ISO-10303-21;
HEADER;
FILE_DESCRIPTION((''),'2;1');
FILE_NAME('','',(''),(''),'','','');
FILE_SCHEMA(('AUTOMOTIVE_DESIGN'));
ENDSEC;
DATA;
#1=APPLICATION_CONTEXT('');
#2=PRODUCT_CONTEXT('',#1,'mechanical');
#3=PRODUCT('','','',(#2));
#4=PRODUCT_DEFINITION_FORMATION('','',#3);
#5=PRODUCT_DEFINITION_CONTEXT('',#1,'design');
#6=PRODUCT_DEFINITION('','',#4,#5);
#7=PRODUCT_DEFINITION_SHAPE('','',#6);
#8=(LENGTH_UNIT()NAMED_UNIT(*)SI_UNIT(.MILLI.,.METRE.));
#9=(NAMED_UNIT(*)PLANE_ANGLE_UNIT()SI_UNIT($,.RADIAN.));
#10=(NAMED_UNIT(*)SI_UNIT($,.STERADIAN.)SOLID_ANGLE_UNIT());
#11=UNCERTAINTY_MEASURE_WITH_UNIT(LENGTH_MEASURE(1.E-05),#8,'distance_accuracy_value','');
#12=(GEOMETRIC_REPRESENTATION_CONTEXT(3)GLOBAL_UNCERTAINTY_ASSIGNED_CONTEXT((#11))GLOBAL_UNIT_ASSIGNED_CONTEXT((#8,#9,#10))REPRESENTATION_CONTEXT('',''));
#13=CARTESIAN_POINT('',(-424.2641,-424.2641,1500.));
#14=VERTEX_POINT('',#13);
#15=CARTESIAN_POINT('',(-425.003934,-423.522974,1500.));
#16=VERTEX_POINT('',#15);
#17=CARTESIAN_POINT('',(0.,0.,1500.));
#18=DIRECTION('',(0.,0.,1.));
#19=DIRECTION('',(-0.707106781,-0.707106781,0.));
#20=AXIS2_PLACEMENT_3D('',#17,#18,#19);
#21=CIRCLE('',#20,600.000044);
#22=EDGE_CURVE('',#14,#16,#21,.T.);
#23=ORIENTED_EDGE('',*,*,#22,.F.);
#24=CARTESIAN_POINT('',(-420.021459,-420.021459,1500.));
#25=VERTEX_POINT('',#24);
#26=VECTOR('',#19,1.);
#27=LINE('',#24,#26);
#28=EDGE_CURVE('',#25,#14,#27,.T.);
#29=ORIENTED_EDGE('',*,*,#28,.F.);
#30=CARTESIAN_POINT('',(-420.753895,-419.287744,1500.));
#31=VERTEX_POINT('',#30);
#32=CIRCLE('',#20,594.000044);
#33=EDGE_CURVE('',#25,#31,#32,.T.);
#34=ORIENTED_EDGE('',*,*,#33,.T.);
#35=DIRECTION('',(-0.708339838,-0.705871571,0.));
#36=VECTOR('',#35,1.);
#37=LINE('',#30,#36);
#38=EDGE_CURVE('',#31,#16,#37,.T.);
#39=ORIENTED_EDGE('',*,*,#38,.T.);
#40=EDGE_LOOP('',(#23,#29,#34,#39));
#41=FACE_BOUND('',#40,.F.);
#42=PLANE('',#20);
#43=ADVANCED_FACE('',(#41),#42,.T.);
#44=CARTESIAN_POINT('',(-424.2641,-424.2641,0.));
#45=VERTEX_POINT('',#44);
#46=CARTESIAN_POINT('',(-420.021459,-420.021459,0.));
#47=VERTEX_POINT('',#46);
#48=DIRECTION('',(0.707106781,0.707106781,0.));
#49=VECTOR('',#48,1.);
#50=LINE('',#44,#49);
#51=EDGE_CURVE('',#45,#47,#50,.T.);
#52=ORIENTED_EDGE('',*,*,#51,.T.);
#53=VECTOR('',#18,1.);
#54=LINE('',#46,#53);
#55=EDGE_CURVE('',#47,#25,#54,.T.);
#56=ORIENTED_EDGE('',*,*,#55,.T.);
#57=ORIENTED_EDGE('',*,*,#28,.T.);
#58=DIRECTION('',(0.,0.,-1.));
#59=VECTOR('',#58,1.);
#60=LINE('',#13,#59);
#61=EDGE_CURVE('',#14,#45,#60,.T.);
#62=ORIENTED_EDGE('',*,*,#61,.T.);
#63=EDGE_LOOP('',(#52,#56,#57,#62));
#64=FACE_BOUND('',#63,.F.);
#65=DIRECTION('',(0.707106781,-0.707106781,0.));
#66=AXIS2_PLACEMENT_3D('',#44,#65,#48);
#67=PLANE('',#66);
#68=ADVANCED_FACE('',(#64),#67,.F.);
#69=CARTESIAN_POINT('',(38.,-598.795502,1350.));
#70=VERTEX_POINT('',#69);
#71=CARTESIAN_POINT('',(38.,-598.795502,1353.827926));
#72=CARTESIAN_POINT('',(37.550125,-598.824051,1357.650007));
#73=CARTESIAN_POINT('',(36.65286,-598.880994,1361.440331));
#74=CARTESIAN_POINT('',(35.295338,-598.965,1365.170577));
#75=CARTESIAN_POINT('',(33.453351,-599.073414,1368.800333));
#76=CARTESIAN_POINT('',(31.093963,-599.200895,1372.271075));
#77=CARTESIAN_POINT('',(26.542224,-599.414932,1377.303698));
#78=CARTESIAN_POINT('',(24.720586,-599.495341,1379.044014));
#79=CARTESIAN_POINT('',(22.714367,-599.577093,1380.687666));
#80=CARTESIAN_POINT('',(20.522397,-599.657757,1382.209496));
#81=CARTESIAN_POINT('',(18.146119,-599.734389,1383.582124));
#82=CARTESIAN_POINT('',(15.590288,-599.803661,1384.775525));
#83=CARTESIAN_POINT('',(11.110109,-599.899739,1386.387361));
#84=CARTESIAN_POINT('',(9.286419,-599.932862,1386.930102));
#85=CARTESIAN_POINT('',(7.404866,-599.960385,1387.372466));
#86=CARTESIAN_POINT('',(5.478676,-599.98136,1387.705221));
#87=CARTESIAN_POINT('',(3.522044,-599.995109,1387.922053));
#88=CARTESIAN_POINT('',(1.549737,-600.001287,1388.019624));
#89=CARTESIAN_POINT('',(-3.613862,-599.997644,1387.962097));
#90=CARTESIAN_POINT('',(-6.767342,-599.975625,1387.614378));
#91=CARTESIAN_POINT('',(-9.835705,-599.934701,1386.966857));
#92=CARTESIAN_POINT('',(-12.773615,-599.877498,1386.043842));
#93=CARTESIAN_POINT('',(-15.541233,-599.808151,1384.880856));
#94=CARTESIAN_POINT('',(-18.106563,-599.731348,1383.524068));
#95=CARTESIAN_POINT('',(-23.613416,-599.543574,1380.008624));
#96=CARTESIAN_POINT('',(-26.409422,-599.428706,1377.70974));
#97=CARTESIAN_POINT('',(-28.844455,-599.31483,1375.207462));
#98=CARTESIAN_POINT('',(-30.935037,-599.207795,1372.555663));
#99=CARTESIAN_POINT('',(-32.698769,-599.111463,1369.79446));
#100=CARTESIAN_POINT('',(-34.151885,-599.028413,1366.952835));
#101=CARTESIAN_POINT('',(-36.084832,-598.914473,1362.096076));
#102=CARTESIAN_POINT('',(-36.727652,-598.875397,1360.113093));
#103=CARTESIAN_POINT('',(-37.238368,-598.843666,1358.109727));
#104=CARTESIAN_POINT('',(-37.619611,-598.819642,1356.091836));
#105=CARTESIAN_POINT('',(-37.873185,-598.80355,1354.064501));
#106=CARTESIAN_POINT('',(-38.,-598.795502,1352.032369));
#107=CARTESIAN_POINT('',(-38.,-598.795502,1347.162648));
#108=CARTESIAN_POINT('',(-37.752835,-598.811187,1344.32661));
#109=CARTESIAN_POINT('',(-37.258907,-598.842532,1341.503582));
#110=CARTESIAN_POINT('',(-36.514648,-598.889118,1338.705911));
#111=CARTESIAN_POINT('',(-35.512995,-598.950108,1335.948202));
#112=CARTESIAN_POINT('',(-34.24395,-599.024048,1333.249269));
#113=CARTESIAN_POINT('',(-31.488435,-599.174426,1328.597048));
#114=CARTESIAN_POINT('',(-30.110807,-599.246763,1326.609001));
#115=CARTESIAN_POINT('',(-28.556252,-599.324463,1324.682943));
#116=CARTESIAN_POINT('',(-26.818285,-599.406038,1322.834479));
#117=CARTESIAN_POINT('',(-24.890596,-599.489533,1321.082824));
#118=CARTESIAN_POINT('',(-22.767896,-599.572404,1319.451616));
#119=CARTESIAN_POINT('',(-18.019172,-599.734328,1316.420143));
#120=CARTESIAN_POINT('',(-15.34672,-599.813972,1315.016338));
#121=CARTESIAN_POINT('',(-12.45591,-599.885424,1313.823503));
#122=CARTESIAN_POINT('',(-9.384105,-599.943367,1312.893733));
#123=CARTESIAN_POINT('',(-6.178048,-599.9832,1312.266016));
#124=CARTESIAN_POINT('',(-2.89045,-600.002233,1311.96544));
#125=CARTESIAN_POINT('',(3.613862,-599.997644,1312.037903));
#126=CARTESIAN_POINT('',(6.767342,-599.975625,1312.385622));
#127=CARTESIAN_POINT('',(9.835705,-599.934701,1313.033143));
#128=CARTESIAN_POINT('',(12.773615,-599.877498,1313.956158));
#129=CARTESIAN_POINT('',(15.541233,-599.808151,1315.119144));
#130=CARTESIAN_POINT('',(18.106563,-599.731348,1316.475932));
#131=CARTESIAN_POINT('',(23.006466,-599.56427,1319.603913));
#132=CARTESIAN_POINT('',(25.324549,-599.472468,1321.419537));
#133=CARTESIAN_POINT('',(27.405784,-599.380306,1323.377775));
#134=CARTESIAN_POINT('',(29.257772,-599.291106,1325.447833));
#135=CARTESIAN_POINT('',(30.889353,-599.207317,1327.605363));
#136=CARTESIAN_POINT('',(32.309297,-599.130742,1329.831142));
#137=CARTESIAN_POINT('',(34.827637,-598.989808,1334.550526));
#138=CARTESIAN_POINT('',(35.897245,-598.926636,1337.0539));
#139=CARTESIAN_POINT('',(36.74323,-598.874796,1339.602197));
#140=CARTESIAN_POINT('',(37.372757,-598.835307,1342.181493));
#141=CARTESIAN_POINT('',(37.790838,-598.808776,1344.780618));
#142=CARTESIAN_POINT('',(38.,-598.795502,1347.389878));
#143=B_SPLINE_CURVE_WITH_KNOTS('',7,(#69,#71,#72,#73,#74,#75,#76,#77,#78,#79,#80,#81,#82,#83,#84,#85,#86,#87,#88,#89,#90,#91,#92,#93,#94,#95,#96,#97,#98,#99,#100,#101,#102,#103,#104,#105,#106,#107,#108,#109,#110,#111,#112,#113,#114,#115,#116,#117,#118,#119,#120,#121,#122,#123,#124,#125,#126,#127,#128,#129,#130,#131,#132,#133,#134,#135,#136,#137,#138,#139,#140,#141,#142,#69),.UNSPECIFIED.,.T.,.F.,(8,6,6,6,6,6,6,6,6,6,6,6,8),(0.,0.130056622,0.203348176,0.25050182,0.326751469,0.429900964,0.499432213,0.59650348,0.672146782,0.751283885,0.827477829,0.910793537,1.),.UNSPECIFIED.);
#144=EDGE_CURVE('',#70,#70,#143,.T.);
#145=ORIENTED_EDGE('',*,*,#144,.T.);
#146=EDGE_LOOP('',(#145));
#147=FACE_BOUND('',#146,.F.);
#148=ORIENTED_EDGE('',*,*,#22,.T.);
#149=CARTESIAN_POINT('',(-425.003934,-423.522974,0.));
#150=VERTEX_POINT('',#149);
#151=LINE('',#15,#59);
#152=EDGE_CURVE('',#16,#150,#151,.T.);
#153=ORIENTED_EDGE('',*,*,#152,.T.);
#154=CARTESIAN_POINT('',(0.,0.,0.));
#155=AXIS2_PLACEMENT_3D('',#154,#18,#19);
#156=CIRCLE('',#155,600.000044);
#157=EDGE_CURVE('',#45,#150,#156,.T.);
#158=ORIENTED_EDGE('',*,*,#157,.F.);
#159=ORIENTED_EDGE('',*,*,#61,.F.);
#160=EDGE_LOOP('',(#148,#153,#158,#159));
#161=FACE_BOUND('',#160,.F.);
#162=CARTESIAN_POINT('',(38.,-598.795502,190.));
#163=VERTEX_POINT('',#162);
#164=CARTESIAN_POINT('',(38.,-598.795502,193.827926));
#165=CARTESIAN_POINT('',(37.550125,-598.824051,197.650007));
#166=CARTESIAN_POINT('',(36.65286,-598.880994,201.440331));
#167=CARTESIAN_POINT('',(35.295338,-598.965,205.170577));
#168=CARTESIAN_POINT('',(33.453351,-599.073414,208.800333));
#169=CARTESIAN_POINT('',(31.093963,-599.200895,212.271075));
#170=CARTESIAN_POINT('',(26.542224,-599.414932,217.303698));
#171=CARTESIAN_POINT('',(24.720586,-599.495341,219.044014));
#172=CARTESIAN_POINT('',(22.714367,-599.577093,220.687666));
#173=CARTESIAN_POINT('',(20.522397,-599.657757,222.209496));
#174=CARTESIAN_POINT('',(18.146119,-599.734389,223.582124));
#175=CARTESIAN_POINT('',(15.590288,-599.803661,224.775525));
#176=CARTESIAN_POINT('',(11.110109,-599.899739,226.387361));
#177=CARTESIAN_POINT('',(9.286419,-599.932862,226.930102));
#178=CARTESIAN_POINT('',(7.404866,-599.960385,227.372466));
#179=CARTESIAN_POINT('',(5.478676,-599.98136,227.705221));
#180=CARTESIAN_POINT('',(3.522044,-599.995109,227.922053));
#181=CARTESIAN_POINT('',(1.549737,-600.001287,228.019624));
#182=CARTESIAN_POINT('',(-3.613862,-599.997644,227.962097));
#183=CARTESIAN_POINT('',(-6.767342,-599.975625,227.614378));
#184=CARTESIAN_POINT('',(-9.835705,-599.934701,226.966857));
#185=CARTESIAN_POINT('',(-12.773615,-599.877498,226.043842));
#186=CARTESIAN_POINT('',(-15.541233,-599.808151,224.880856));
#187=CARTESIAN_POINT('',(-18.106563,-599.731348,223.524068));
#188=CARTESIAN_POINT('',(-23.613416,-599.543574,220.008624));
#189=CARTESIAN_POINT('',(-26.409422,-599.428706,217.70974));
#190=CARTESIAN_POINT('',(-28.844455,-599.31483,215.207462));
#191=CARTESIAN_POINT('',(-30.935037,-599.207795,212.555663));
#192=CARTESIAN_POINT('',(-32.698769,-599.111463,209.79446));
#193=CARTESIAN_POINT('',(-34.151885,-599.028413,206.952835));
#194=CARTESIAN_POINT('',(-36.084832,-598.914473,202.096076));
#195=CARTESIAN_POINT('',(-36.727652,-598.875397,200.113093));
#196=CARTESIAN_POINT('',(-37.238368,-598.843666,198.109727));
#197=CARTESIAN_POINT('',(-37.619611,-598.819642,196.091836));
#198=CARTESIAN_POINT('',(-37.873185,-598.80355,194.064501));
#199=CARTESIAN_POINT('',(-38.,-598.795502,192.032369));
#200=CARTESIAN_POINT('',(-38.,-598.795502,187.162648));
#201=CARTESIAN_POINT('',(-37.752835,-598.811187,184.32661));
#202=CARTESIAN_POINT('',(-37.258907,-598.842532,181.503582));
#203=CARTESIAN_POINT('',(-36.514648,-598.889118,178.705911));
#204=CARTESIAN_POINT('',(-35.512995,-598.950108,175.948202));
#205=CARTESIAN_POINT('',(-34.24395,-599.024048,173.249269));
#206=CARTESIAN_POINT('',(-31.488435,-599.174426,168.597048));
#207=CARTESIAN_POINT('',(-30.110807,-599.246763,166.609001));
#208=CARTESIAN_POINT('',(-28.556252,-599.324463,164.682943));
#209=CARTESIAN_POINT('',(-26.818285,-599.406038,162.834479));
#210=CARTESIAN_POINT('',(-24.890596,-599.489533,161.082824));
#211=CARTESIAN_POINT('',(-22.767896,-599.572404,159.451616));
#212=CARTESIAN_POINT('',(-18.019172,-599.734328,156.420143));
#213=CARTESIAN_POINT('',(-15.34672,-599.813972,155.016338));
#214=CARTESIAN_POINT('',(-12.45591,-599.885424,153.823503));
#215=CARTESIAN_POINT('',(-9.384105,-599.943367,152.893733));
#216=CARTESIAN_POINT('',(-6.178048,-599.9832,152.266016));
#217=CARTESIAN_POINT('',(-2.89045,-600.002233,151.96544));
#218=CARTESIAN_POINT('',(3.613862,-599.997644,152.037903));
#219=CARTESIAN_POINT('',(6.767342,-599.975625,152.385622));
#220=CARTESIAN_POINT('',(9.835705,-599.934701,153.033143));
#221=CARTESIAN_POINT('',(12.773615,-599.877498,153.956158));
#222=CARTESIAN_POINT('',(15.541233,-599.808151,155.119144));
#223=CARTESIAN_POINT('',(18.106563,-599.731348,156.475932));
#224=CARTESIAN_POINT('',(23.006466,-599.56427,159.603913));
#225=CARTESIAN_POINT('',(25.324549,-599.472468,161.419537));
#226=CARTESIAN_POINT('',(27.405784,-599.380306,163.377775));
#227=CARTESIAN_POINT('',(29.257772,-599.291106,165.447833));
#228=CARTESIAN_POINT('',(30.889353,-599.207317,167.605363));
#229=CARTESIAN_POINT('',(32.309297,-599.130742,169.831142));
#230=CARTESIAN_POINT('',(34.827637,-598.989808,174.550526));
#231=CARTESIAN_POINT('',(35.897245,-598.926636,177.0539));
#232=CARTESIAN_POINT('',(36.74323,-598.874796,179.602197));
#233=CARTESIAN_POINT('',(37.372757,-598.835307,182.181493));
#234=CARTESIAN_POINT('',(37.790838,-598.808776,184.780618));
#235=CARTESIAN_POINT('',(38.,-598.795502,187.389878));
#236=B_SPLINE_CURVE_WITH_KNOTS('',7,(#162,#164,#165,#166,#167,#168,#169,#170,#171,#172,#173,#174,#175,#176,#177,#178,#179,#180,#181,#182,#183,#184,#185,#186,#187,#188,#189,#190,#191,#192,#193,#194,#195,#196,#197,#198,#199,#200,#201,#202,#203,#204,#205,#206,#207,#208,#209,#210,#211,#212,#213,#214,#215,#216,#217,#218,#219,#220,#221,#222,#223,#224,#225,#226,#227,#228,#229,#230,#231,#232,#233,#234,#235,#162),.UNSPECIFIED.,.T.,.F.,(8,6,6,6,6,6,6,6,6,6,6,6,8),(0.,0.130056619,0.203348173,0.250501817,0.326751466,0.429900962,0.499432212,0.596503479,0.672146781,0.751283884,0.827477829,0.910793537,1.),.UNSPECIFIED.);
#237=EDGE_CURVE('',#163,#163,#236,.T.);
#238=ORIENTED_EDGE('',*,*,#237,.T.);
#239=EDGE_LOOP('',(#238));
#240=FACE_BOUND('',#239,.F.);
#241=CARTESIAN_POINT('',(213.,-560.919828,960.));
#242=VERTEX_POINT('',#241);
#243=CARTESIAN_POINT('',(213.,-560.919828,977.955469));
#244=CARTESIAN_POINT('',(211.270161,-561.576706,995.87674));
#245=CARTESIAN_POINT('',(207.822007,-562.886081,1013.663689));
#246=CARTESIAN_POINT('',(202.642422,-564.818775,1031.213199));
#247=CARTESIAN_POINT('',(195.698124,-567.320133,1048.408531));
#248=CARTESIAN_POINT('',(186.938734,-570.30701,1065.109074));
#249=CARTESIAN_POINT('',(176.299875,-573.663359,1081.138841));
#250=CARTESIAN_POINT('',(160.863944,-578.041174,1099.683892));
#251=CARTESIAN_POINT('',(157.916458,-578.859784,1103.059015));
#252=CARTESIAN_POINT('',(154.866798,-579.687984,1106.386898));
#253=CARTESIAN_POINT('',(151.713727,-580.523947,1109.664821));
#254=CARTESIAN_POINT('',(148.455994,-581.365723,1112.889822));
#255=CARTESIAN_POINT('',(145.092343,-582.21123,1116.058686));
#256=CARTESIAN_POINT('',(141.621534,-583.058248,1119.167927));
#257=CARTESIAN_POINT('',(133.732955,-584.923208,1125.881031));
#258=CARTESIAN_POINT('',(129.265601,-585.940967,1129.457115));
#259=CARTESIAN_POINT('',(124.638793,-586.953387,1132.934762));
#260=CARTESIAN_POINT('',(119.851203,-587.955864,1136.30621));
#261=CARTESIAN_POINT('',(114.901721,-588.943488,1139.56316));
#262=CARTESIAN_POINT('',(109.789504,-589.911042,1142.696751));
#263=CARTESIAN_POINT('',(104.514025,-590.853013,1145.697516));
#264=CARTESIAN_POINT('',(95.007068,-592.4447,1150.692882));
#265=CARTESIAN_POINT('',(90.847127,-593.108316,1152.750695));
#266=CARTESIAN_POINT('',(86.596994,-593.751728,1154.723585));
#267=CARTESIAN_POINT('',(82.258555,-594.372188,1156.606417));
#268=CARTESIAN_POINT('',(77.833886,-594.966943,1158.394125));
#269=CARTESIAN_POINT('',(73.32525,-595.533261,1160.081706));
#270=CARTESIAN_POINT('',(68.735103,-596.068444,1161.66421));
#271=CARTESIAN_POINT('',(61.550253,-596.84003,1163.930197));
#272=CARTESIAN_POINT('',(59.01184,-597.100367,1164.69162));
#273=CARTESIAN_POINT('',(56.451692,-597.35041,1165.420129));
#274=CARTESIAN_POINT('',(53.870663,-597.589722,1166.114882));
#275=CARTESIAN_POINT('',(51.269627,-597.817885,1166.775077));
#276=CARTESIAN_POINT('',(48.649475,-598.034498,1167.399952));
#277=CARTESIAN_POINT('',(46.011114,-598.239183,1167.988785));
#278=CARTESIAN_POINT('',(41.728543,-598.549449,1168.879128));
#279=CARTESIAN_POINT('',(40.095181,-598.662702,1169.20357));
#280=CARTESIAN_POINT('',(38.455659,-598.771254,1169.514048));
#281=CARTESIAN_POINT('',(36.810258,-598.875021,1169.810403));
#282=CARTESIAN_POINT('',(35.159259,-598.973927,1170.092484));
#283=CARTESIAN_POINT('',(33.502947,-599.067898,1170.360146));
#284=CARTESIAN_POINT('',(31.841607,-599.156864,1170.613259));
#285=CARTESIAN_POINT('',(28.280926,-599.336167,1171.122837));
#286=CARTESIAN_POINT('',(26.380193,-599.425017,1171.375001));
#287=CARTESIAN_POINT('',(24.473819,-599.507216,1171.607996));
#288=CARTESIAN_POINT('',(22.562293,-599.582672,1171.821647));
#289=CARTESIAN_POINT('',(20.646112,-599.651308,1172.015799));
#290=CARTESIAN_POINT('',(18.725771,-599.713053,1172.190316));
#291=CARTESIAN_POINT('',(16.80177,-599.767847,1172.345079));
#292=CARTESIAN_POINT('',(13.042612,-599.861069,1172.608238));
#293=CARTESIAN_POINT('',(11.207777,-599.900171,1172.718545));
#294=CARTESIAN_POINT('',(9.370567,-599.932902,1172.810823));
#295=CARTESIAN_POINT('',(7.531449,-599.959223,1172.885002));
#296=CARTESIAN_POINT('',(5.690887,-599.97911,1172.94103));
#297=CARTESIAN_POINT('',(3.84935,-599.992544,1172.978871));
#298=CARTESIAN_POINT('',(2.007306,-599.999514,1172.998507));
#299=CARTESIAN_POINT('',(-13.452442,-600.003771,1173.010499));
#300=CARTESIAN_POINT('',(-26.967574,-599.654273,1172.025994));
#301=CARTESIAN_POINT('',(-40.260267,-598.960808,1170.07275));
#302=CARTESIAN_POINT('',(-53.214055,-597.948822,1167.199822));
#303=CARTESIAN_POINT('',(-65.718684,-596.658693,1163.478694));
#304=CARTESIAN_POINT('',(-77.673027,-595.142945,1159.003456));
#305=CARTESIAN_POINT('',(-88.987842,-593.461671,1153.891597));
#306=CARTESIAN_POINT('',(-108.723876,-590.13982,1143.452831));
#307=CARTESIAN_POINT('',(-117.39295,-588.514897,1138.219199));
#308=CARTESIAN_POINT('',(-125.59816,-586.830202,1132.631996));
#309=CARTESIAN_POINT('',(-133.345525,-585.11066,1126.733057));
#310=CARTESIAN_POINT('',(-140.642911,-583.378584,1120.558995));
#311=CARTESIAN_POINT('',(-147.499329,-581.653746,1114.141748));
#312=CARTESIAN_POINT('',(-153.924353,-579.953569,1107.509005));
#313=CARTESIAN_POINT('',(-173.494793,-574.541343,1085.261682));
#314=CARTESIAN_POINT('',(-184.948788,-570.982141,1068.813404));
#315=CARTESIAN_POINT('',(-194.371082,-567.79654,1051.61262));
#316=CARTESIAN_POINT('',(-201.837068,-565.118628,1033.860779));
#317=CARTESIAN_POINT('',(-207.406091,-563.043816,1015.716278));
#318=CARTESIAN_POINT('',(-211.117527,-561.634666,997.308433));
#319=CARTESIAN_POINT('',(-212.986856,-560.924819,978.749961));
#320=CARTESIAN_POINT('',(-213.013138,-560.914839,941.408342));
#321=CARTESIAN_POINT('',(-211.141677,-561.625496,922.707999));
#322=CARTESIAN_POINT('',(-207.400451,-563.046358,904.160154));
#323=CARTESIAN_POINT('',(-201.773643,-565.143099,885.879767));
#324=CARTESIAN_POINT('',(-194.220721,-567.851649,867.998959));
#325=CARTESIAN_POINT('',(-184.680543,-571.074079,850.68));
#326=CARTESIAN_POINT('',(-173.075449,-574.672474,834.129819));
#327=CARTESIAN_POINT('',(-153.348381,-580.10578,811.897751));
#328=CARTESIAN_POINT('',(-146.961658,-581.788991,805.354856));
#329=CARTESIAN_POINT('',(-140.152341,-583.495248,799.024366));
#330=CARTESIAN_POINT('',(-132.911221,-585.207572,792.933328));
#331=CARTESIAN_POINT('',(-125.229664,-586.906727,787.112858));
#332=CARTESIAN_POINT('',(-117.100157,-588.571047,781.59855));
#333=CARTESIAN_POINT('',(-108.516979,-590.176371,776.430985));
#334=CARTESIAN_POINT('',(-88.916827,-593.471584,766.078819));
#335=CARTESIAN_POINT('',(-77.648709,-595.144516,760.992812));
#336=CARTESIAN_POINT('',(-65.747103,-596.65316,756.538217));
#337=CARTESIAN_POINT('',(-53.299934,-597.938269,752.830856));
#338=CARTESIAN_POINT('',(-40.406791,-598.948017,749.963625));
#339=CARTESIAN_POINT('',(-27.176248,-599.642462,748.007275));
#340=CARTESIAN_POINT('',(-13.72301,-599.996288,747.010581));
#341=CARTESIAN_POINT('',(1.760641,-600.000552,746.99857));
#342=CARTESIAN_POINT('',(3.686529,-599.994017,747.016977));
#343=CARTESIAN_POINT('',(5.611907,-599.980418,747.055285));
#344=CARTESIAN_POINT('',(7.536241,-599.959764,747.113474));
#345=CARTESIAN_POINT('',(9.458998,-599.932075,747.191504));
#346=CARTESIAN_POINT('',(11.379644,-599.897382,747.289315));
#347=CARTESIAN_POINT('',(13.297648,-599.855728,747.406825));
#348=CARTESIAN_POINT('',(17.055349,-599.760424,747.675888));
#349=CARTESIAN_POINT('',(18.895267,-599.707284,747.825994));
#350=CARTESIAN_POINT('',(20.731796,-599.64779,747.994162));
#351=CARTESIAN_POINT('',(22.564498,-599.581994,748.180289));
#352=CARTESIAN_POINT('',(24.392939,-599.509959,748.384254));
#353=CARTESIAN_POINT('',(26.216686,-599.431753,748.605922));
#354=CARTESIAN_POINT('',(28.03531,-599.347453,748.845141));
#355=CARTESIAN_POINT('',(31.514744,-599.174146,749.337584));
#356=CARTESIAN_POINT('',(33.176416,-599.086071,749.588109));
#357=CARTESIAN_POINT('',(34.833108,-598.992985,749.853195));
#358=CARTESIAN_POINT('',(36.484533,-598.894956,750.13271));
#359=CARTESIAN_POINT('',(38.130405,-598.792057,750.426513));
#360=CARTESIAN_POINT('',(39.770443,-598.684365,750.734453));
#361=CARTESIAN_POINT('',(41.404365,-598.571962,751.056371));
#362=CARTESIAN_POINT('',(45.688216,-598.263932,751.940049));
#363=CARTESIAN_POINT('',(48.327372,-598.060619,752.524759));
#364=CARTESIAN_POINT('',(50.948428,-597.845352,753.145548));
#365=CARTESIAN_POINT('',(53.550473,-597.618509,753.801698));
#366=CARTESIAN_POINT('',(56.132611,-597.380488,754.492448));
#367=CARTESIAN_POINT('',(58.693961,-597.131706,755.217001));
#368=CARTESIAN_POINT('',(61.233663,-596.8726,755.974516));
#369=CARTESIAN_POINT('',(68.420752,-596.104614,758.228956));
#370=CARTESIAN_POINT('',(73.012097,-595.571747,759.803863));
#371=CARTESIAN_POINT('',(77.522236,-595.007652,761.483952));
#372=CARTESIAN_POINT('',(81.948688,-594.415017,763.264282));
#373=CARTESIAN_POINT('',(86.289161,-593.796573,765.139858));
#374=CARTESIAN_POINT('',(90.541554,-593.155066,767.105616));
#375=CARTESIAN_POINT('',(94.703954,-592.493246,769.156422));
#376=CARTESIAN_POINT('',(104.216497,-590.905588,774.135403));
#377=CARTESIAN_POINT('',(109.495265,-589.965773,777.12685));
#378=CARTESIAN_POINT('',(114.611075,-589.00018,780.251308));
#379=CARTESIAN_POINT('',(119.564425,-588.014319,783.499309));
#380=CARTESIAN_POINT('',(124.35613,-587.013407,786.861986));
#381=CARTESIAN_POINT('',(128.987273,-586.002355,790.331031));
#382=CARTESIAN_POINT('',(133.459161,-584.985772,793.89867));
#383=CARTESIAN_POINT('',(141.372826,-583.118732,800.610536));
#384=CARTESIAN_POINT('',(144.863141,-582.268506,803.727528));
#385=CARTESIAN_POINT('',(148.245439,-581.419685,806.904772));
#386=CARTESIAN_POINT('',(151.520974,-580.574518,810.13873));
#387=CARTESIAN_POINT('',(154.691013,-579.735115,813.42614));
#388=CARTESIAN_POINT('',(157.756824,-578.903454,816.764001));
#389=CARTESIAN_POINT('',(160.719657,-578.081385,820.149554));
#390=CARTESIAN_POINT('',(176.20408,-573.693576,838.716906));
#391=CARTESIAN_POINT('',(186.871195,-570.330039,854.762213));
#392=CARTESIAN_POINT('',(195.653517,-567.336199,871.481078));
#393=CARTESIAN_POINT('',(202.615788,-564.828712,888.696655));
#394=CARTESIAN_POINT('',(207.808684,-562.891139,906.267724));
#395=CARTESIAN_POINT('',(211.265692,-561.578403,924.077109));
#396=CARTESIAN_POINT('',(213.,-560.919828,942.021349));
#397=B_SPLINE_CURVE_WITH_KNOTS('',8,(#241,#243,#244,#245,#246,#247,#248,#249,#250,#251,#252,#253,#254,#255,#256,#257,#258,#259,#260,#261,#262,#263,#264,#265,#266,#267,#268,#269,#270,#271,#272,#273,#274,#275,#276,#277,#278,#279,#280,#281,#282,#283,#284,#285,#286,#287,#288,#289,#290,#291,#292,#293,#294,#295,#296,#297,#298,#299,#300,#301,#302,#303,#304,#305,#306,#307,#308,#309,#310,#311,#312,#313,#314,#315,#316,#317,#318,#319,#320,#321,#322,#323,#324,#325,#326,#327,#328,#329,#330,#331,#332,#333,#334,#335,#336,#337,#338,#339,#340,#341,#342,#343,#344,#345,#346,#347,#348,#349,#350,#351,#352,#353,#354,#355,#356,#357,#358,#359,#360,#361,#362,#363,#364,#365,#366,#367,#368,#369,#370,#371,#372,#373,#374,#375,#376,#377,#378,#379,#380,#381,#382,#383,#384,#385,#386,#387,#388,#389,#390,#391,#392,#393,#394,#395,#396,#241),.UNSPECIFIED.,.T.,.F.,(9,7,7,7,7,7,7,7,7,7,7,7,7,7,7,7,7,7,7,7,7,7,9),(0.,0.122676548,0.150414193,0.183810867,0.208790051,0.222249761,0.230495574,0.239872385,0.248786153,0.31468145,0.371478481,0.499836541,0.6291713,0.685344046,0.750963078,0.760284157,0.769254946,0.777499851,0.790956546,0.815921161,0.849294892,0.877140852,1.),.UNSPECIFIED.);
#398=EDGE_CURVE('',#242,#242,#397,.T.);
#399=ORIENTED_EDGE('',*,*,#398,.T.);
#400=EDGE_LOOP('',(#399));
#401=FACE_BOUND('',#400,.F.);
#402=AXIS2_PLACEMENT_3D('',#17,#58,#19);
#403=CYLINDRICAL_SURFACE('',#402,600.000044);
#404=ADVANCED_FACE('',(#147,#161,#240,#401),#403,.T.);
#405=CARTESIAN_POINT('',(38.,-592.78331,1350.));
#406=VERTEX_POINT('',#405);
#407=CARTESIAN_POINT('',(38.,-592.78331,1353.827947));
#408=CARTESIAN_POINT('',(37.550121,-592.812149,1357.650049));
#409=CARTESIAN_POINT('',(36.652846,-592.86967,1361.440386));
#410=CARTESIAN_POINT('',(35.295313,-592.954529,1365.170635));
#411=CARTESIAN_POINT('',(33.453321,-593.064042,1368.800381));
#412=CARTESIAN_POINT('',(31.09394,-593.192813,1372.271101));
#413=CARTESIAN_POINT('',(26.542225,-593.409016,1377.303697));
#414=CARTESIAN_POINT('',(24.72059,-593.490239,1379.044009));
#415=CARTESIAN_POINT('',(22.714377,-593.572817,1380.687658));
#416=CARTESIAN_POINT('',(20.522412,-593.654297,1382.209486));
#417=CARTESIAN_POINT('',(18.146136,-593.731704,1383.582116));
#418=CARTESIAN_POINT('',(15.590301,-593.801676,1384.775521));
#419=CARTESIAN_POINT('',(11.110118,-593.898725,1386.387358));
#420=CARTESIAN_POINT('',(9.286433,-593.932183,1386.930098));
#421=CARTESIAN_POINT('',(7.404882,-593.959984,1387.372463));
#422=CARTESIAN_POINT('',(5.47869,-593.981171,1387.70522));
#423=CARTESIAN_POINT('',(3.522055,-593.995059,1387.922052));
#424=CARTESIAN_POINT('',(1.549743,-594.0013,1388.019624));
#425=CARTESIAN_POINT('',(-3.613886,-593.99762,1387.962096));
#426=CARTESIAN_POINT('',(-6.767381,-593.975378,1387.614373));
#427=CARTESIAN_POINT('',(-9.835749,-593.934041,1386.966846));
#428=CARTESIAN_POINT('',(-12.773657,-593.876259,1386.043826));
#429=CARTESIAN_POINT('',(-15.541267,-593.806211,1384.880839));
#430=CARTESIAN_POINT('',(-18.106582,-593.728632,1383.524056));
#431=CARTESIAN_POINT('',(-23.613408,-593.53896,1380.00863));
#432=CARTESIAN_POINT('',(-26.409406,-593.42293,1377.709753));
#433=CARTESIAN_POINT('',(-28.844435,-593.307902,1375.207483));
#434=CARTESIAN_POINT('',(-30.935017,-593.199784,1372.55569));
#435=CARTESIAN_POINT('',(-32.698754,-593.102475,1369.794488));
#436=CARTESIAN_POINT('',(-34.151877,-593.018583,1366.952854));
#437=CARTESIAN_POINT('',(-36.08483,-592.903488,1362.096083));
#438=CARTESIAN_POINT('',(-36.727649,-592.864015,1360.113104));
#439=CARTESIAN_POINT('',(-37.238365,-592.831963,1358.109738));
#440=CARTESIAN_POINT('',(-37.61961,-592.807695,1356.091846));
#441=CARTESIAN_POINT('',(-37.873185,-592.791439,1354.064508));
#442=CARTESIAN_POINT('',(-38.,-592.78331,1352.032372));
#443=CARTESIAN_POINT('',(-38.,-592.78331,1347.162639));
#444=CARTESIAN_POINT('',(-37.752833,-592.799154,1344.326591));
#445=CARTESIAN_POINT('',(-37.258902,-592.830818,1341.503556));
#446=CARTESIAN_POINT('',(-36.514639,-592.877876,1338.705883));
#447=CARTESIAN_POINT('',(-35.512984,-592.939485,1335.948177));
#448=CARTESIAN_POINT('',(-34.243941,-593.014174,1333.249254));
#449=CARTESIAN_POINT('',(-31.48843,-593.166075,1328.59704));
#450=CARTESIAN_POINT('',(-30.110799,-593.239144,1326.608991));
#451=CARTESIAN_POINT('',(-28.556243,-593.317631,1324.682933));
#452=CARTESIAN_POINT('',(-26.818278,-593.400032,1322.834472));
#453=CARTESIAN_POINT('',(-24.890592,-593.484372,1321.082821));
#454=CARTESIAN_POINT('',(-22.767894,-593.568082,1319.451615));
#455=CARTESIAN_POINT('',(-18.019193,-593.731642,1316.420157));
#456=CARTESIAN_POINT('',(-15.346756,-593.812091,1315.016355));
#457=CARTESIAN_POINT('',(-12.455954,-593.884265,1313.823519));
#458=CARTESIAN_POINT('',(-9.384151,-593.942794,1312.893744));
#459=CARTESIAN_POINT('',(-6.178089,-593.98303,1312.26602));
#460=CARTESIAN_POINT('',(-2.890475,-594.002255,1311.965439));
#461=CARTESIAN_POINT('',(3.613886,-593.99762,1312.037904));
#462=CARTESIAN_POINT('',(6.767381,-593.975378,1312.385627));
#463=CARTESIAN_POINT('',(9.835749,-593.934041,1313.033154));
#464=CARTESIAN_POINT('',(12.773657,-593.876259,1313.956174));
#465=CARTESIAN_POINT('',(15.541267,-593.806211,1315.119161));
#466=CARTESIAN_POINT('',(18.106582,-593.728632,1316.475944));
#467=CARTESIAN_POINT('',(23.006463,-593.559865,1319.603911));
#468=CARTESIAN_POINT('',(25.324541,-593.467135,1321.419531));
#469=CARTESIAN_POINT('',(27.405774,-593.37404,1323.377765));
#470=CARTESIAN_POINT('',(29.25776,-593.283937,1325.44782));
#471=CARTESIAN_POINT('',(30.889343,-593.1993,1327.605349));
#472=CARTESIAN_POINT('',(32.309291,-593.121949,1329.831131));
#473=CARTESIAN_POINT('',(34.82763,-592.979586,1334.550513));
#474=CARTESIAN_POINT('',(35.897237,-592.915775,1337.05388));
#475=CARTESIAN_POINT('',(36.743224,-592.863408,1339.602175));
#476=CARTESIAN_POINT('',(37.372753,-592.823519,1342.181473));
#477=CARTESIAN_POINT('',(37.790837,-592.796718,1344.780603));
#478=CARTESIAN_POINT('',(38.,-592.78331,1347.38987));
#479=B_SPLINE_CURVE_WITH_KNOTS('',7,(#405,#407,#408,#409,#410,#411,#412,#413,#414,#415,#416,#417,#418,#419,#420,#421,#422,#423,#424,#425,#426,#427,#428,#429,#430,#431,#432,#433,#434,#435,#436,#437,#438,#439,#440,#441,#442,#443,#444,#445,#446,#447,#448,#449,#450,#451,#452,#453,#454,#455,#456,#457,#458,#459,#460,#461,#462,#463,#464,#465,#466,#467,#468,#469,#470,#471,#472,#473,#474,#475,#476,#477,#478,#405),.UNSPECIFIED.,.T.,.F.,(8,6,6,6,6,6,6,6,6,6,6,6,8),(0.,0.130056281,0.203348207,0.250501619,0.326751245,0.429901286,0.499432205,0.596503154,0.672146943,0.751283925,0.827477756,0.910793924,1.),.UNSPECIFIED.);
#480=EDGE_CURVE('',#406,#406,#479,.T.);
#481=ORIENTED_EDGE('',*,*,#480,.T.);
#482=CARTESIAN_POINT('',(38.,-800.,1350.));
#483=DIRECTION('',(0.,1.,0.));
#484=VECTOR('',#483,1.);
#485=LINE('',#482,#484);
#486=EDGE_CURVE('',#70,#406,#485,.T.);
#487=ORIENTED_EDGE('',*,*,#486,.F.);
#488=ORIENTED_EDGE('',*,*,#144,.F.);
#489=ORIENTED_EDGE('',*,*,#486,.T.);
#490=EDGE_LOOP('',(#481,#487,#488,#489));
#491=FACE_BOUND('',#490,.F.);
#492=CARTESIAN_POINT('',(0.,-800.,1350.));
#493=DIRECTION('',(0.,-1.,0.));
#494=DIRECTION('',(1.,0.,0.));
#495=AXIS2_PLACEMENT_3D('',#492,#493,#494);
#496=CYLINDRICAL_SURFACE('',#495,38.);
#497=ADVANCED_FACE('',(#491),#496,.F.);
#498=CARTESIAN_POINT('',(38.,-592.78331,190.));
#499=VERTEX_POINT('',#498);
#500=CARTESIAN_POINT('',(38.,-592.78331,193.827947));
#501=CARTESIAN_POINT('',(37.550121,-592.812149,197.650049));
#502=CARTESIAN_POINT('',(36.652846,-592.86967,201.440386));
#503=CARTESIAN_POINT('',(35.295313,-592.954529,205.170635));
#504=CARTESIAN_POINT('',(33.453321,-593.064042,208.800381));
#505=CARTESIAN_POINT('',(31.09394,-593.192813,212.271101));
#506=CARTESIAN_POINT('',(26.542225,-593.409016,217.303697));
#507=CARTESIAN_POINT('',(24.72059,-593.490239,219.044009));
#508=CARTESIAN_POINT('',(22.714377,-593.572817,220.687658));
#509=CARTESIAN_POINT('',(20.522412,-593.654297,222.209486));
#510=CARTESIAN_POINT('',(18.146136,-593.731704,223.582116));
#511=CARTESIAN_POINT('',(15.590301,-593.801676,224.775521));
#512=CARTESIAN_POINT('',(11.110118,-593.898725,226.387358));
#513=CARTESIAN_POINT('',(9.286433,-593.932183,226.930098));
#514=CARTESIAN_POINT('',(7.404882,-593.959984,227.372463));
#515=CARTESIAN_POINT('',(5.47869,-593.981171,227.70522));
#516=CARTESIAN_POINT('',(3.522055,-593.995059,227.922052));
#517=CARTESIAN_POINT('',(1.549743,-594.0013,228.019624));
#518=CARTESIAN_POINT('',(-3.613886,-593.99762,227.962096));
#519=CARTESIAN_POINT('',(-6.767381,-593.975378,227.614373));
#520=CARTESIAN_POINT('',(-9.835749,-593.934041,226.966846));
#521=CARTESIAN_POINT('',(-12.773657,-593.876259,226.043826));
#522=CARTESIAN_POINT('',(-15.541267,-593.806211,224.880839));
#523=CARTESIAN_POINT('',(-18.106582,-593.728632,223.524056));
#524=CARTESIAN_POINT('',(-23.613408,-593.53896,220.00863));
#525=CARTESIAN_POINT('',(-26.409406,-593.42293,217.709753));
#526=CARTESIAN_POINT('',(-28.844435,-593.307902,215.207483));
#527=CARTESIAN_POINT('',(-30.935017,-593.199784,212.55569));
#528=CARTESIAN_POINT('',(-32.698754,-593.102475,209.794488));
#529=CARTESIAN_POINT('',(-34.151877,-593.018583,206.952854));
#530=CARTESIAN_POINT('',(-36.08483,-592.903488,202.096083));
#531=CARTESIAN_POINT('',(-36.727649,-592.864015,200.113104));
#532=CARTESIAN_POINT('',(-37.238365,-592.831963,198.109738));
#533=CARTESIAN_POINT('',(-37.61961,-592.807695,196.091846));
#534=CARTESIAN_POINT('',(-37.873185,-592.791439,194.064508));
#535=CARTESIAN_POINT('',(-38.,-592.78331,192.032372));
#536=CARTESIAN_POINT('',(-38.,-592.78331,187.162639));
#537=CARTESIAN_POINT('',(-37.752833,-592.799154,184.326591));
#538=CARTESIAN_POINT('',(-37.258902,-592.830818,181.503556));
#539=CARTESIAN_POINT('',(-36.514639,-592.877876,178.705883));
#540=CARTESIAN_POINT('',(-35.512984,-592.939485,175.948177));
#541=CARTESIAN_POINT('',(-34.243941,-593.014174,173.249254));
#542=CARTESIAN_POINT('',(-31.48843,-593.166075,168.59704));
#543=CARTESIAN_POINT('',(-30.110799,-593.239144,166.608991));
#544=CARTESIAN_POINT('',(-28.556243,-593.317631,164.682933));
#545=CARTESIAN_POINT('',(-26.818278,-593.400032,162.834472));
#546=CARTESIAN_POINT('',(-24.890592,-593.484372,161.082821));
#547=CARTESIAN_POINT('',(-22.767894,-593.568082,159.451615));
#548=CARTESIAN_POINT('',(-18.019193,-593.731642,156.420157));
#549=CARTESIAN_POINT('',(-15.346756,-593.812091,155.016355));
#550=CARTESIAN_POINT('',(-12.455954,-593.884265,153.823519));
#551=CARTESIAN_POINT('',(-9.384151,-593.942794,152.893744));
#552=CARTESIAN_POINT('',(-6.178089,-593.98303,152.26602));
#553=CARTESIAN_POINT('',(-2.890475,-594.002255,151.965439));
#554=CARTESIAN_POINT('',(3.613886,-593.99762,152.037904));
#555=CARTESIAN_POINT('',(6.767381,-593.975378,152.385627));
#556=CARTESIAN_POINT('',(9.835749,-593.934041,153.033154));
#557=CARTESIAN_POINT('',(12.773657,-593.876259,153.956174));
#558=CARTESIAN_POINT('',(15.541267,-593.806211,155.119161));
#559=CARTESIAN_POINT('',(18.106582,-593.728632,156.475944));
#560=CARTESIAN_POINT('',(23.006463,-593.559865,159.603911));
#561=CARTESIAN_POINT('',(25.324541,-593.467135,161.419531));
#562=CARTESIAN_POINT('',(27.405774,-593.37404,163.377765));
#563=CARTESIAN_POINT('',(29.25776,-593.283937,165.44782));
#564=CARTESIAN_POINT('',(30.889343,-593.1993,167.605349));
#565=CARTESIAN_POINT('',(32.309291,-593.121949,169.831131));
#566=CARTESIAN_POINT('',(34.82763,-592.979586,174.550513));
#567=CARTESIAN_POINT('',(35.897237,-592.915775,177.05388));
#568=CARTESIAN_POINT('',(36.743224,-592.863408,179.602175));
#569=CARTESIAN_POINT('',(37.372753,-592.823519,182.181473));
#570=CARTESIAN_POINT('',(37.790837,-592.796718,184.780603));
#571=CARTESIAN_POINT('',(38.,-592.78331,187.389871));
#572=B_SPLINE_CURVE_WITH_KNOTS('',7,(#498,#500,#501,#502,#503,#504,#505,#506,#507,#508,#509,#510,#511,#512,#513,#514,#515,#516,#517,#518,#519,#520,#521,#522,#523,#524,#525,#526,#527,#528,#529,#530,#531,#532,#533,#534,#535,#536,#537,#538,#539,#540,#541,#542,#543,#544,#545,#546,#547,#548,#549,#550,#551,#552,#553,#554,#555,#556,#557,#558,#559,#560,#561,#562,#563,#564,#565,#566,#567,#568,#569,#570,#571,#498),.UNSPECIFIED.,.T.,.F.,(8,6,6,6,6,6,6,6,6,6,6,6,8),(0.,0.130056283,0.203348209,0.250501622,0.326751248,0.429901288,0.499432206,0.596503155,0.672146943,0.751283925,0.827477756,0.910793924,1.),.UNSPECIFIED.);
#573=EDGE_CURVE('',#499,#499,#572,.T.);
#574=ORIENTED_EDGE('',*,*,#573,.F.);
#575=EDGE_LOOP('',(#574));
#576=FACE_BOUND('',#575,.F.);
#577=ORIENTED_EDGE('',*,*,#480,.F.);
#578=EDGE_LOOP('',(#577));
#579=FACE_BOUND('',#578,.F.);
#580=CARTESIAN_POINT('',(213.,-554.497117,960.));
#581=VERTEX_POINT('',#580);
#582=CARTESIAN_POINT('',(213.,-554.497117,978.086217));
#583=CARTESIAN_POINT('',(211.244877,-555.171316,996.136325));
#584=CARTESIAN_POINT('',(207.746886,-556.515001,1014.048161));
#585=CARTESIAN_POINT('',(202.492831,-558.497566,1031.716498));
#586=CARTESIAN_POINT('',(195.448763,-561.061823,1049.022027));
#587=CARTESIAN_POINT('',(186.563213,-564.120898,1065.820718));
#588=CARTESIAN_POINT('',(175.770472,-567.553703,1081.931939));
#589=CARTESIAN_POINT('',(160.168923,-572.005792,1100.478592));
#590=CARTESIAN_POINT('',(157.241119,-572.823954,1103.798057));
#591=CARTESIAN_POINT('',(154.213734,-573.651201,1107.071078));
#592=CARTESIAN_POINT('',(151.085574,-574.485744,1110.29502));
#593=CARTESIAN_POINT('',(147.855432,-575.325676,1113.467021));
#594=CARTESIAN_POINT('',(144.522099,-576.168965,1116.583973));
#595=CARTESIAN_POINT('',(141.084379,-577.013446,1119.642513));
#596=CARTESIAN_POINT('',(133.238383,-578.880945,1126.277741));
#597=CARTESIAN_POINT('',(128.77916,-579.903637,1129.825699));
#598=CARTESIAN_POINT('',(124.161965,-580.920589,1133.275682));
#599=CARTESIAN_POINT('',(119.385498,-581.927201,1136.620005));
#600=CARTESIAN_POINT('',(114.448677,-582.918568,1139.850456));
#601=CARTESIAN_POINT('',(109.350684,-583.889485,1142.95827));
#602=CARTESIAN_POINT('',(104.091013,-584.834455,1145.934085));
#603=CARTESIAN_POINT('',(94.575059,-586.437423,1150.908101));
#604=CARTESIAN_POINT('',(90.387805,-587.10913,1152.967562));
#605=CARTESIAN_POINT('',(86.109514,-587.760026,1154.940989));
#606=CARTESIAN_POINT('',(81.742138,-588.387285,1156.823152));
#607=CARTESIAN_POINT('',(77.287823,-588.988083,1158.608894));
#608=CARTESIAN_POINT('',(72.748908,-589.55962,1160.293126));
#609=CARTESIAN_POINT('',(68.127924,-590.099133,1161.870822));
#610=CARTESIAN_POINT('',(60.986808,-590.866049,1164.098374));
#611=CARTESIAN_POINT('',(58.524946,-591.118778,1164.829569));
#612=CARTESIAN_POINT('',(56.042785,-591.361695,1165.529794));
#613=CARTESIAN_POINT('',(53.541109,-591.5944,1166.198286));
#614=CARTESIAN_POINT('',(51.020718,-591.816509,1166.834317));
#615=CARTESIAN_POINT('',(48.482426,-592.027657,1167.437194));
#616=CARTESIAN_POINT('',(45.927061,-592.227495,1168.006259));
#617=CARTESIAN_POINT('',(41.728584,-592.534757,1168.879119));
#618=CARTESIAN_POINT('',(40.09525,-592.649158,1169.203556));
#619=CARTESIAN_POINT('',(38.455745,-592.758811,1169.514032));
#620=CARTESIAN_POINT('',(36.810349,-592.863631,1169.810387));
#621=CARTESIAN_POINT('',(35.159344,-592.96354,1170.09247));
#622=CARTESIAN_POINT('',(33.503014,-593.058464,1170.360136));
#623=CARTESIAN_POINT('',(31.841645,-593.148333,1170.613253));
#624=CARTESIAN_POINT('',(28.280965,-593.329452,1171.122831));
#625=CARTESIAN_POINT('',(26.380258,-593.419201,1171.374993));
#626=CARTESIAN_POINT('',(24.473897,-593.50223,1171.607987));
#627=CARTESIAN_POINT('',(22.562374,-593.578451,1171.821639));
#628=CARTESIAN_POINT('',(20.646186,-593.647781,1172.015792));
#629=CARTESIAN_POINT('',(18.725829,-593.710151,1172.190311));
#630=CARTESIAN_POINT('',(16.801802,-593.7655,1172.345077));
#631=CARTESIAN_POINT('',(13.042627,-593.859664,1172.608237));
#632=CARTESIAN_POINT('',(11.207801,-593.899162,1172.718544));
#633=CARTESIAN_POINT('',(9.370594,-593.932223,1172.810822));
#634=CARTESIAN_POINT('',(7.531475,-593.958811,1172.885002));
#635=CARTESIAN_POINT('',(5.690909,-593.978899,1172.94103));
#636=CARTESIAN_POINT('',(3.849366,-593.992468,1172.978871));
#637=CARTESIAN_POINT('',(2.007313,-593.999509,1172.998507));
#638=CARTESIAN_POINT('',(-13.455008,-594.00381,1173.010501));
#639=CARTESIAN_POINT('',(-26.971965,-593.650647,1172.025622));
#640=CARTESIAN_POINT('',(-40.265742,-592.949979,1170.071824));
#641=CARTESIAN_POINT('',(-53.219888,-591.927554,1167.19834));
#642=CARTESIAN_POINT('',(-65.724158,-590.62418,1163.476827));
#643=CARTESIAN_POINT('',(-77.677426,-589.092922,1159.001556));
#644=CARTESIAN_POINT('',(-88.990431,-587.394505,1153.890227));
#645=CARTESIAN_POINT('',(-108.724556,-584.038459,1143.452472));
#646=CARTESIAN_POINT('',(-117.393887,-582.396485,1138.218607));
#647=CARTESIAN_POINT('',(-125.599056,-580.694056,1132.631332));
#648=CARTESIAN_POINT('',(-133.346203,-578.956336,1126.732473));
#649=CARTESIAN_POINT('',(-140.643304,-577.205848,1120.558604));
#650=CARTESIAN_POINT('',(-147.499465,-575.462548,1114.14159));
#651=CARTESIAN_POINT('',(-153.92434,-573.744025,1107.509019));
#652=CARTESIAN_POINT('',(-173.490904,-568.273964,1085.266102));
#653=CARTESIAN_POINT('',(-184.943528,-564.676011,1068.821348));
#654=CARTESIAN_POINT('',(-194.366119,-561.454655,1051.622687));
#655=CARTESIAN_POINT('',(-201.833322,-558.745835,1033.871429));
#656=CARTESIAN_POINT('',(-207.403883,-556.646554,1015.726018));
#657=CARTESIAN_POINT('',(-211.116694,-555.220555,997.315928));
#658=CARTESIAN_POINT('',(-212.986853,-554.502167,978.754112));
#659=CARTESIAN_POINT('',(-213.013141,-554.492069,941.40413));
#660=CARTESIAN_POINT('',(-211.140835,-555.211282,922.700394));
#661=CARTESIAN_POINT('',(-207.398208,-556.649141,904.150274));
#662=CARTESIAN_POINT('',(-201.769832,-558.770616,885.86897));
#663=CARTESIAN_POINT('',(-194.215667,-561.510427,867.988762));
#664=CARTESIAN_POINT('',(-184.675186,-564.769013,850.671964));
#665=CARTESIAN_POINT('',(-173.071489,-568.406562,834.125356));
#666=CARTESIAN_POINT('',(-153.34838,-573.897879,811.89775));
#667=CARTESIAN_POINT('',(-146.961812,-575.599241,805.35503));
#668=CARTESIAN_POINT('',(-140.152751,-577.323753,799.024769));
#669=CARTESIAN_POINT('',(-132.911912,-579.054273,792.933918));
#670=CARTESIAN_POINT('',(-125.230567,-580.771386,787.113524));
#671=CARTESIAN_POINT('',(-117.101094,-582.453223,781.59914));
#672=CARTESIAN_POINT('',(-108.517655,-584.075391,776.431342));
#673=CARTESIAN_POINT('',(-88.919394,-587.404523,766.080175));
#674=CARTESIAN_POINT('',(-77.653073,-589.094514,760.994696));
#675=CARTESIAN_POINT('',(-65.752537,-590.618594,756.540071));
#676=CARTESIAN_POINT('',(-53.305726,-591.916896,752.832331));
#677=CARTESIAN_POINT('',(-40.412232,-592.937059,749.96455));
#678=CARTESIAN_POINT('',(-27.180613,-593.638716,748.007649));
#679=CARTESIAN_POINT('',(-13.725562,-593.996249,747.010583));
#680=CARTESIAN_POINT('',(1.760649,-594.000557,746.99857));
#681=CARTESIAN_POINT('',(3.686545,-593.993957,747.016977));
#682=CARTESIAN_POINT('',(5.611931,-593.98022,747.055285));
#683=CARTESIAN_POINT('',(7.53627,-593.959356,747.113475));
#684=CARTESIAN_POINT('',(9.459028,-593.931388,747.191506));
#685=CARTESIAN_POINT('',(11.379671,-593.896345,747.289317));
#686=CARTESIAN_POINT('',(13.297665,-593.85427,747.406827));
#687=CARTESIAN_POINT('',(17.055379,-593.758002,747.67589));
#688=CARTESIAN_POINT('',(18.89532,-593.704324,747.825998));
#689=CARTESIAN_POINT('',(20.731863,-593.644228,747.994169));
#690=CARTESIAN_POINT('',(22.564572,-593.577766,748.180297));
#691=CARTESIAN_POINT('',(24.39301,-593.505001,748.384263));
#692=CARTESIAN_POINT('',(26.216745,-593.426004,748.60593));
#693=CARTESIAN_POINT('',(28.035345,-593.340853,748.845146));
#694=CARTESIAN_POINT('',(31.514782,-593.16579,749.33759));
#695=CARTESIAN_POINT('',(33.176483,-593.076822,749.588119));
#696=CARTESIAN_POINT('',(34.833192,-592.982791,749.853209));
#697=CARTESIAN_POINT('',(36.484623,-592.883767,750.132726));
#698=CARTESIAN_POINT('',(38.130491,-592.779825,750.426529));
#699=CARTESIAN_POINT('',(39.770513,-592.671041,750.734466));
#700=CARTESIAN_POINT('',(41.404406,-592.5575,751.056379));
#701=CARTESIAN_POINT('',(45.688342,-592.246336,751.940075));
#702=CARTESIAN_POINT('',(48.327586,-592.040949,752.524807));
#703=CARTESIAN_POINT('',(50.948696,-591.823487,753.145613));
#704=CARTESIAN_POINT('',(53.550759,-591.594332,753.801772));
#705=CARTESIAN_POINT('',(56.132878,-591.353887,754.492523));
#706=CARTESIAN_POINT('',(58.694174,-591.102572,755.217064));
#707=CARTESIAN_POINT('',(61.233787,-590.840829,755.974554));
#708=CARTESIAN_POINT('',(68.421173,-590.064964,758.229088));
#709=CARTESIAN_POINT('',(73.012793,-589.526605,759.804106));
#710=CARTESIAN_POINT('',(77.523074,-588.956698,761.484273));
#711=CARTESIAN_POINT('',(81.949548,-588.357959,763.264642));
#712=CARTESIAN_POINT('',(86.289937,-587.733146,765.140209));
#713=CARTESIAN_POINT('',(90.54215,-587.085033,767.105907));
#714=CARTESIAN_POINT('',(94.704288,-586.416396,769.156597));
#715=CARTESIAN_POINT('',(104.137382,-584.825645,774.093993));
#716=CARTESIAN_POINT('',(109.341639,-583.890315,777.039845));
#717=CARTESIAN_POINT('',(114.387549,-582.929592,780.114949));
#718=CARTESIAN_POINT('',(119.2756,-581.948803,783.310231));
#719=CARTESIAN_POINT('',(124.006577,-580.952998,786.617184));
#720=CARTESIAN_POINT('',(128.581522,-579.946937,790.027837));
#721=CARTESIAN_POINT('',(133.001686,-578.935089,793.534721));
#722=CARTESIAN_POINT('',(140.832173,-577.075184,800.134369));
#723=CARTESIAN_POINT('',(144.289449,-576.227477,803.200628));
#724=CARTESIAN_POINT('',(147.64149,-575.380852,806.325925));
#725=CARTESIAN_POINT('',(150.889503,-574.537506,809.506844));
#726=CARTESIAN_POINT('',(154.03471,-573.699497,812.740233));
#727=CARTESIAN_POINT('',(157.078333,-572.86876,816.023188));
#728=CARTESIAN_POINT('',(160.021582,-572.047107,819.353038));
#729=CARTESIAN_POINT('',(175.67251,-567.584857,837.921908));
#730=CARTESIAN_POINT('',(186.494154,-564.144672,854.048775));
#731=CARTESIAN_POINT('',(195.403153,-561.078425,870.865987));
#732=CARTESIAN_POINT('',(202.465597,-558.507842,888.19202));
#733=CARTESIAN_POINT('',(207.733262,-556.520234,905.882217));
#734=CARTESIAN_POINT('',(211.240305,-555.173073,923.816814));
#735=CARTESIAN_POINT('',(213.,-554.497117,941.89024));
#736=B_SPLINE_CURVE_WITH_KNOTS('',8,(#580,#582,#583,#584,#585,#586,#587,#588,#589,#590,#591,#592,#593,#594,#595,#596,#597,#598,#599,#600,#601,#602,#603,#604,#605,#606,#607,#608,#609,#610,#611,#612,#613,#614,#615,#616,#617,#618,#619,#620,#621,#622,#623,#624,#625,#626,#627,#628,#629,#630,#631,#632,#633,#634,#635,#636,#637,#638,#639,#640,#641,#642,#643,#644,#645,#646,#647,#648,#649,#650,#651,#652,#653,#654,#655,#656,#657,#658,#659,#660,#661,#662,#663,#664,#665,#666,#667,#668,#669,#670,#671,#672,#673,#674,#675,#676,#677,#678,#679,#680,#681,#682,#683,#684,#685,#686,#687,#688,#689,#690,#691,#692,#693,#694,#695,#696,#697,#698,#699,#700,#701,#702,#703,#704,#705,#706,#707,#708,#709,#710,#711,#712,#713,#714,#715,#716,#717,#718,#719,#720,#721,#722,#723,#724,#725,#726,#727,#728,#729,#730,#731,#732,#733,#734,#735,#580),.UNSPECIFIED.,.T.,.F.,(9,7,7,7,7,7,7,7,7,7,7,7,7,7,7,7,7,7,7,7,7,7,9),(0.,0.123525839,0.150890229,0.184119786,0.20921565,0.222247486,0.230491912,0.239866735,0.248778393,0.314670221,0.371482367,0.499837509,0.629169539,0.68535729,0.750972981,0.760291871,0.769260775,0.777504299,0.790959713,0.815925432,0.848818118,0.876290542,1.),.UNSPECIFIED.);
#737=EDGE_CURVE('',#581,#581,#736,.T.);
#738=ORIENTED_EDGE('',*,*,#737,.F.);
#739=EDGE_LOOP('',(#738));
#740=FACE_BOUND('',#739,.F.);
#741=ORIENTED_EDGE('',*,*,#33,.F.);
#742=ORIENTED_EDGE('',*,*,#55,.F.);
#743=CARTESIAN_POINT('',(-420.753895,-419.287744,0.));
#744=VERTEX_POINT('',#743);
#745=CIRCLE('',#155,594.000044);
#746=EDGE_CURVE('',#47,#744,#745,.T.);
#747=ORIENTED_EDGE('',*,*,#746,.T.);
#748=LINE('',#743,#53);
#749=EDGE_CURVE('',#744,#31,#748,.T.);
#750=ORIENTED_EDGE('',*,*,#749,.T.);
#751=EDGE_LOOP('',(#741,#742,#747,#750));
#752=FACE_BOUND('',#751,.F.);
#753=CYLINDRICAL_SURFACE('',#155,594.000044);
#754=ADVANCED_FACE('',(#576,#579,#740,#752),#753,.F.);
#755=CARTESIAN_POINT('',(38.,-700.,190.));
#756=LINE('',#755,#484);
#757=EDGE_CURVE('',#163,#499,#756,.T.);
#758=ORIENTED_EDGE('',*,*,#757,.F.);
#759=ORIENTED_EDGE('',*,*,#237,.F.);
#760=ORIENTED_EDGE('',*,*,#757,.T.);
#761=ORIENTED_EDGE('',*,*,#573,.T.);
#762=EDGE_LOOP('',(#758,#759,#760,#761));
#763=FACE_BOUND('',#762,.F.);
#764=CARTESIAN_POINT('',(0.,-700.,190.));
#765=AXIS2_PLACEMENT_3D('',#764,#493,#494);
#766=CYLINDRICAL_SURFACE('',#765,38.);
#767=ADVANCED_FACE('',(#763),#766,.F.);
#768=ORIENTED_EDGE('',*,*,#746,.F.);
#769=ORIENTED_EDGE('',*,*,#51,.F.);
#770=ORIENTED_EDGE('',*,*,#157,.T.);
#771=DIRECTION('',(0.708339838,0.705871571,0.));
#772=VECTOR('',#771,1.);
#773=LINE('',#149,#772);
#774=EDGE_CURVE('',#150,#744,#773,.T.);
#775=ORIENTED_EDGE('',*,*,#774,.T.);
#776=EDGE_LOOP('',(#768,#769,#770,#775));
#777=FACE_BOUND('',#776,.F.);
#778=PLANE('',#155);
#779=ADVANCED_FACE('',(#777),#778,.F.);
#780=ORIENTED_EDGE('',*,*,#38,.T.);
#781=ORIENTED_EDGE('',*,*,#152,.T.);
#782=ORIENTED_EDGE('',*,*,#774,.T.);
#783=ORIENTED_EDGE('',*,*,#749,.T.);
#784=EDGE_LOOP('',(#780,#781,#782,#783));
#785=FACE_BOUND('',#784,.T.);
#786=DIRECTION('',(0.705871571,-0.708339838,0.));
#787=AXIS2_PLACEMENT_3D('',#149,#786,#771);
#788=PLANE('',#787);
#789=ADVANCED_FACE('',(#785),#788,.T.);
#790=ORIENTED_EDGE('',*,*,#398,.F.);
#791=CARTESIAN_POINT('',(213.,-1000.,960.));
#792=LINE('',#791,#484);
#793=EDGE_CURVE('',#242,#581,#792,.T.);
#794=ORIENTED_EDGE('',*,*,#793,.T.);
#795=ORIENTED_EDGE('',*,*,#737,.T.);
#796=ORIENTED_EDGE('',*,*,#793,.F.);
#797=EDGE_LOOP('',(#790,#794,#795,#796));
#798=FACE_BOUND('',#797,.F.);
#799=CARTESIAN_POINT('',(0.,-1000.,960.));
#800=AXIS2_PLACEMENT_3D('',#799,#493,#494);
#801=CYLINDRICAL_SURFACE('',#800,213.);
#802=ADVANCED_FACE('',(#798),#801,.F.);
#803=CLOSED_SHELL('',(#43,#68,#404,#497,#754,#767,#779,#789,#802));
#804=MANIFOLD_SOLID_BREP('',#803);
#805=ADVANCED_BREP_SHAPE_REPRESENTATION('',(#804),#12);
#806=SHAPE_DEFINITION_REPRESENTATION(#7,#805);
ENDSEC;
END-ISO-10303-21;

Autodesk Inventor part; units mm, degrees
sketch "floor angle sketch" plane through (0, 0, 0) normal (0, 0, 1) x (1, 0, 0)
  line L0 (0, 0) -> (0, -240.1382) construction
  line L1 (0, 0) -> (0, -1000)
  line L2 (-424.2641, -424.2641) -> (424.2641, 424.2641) construction
  circle A0 centre (0, 0) radius 600 construction
  line L3 (0, 0) -> (0, -800)
  line L4 (-38, -800) -> (38, -800)
  line L5 (-213, -1000) -> (213, -1000)
  line L6 (0, 0) -> (-307.8181, -845.7234)
  line L7 (0, 0) -> (0, -700)
  line L8 (-38, -700) -> (38, -700)
  line L9 (-368.8981, -823.492) -> (-246.7381, -867.9547)
  dimension "d51" = 1200
  dimension "d52" = 45
  dimension "d54" = 0
  dimension "d55" = 0
  dimension "d56" = 426
  dimension "d58" = 76
  dimension "d59" = 76
  dimension "d60" = 0
  dimension "d61" = 700
  dimension "d62" = 130
  dimension "d63" = 20
  dimension "d64" = 800
  dimension "d65" = 900
  dimension "d66" = 1000
ref_plane "SHELL Plane" through (-424.2641, -424.2641, 0) normal (0.7071, -0.7071, 0) x (0.7071, 0.7071, 0)
ref_plane "ACCESS Plane" through (-213, -1000, 0) normal (0, -1, 0) x (1, 0, 0)
ref_plane "OUTER Plane" through (-38, -800, 0) normal (0, -1, 0) x (1, 0, 0)
ref_plane "INNER Plane" through (-38, -700, 0) normal (0, -1, 0) x (1, 0, 0)
ref_plane "CHARGE Plane" through (-368.8981, -823.492, 0) normal (-0.342, -0.9397, 0) x (0.9397, -0.342, 0)
sketch "Sketch13" plane through (-424.2641, -424.2641, 0) normal (0.7071, -0.7071, 0) x (0.7071, 0.7071, 0)
  line L0 (600, 0) -> (600, 892.6829)
  line L1 (0, 0) -> (6, 0)
  line L2 (6, 0) -> (6, 1500)
  line L3 (6, 1500) -> (0, 1500)
  line L4 (0, 1500) -> (0, 0)
  dimension "d75" = 1500
  dimension "d76" = 6
  dimension "d77" = 1200
revolve "Revolution2" add sketch "Sketch13" angle 359.9 about axis through (0, 0, 0) along (0, 0, 1)
sketch "Sketch14" plane through (-213, -1000, 0) normal (0, -1, 0) x (1, 0, 0)
  circle A0 centre (213, 960) radius 213
  line L0 (813, 1500) -> (-387, 1500) projected
  point P0 (213, 0)
  point P1 (-211.2641, 1500)
  point P2 (-212.0039, 1500)
  dimension "d80" = 426
  dimension "d93" = 540
extrude "ACCESS" cut sketch "Sketch14" against normal up to next
sketch "Sketch15" plane through (-38, -700, 0) normal (0, -1, 0) x (1, 0, 0)
  circle A0 centre (38, 190) radius 38
  point P0 (38, 0)
  dimension "d84" = 76
  dimension "d85" = 190
extrude "INNER" cut sketch "Sketch15" against normal up to next
sketch "Sketch16" plane through (-38, -800, 0) normal (0, -1, 0) x (1, 0, 0)
  circle A0 centre (38, 1350) radius 38
  line L0 (638, 1500) -> (-562, 1500) projected
  point P0 (38, 0)
  point P1 (-386.2641, 1500)
  point P2 (-387.0039, 1500)
  dimension "d89" = 76
  dimension "d92" = 150
extrude "Extrusion9" cut sketch "Sketch16" against normal up to next
equation "\"BendRadius\" = Thickness"
equation "\"BendReliefWidth\" = Thickness"
equation "\"BendReliefDepth\" = 0.5 * Thickness"
equation "\"CornerReliefSize\" = 4 * Thickness"
equation "\"MinimumRemnant\" = 2 * Thickness"
equation "\"TransitionRadius\" = BendRadius"
equation "\"JacobiRadiusSize\" = BendRadius"
equation "\"GapSize\" = Thickness"
equation "\"Thickness\" = 6"
properties part number "TZS 1202 SHELL" material "Steel"
